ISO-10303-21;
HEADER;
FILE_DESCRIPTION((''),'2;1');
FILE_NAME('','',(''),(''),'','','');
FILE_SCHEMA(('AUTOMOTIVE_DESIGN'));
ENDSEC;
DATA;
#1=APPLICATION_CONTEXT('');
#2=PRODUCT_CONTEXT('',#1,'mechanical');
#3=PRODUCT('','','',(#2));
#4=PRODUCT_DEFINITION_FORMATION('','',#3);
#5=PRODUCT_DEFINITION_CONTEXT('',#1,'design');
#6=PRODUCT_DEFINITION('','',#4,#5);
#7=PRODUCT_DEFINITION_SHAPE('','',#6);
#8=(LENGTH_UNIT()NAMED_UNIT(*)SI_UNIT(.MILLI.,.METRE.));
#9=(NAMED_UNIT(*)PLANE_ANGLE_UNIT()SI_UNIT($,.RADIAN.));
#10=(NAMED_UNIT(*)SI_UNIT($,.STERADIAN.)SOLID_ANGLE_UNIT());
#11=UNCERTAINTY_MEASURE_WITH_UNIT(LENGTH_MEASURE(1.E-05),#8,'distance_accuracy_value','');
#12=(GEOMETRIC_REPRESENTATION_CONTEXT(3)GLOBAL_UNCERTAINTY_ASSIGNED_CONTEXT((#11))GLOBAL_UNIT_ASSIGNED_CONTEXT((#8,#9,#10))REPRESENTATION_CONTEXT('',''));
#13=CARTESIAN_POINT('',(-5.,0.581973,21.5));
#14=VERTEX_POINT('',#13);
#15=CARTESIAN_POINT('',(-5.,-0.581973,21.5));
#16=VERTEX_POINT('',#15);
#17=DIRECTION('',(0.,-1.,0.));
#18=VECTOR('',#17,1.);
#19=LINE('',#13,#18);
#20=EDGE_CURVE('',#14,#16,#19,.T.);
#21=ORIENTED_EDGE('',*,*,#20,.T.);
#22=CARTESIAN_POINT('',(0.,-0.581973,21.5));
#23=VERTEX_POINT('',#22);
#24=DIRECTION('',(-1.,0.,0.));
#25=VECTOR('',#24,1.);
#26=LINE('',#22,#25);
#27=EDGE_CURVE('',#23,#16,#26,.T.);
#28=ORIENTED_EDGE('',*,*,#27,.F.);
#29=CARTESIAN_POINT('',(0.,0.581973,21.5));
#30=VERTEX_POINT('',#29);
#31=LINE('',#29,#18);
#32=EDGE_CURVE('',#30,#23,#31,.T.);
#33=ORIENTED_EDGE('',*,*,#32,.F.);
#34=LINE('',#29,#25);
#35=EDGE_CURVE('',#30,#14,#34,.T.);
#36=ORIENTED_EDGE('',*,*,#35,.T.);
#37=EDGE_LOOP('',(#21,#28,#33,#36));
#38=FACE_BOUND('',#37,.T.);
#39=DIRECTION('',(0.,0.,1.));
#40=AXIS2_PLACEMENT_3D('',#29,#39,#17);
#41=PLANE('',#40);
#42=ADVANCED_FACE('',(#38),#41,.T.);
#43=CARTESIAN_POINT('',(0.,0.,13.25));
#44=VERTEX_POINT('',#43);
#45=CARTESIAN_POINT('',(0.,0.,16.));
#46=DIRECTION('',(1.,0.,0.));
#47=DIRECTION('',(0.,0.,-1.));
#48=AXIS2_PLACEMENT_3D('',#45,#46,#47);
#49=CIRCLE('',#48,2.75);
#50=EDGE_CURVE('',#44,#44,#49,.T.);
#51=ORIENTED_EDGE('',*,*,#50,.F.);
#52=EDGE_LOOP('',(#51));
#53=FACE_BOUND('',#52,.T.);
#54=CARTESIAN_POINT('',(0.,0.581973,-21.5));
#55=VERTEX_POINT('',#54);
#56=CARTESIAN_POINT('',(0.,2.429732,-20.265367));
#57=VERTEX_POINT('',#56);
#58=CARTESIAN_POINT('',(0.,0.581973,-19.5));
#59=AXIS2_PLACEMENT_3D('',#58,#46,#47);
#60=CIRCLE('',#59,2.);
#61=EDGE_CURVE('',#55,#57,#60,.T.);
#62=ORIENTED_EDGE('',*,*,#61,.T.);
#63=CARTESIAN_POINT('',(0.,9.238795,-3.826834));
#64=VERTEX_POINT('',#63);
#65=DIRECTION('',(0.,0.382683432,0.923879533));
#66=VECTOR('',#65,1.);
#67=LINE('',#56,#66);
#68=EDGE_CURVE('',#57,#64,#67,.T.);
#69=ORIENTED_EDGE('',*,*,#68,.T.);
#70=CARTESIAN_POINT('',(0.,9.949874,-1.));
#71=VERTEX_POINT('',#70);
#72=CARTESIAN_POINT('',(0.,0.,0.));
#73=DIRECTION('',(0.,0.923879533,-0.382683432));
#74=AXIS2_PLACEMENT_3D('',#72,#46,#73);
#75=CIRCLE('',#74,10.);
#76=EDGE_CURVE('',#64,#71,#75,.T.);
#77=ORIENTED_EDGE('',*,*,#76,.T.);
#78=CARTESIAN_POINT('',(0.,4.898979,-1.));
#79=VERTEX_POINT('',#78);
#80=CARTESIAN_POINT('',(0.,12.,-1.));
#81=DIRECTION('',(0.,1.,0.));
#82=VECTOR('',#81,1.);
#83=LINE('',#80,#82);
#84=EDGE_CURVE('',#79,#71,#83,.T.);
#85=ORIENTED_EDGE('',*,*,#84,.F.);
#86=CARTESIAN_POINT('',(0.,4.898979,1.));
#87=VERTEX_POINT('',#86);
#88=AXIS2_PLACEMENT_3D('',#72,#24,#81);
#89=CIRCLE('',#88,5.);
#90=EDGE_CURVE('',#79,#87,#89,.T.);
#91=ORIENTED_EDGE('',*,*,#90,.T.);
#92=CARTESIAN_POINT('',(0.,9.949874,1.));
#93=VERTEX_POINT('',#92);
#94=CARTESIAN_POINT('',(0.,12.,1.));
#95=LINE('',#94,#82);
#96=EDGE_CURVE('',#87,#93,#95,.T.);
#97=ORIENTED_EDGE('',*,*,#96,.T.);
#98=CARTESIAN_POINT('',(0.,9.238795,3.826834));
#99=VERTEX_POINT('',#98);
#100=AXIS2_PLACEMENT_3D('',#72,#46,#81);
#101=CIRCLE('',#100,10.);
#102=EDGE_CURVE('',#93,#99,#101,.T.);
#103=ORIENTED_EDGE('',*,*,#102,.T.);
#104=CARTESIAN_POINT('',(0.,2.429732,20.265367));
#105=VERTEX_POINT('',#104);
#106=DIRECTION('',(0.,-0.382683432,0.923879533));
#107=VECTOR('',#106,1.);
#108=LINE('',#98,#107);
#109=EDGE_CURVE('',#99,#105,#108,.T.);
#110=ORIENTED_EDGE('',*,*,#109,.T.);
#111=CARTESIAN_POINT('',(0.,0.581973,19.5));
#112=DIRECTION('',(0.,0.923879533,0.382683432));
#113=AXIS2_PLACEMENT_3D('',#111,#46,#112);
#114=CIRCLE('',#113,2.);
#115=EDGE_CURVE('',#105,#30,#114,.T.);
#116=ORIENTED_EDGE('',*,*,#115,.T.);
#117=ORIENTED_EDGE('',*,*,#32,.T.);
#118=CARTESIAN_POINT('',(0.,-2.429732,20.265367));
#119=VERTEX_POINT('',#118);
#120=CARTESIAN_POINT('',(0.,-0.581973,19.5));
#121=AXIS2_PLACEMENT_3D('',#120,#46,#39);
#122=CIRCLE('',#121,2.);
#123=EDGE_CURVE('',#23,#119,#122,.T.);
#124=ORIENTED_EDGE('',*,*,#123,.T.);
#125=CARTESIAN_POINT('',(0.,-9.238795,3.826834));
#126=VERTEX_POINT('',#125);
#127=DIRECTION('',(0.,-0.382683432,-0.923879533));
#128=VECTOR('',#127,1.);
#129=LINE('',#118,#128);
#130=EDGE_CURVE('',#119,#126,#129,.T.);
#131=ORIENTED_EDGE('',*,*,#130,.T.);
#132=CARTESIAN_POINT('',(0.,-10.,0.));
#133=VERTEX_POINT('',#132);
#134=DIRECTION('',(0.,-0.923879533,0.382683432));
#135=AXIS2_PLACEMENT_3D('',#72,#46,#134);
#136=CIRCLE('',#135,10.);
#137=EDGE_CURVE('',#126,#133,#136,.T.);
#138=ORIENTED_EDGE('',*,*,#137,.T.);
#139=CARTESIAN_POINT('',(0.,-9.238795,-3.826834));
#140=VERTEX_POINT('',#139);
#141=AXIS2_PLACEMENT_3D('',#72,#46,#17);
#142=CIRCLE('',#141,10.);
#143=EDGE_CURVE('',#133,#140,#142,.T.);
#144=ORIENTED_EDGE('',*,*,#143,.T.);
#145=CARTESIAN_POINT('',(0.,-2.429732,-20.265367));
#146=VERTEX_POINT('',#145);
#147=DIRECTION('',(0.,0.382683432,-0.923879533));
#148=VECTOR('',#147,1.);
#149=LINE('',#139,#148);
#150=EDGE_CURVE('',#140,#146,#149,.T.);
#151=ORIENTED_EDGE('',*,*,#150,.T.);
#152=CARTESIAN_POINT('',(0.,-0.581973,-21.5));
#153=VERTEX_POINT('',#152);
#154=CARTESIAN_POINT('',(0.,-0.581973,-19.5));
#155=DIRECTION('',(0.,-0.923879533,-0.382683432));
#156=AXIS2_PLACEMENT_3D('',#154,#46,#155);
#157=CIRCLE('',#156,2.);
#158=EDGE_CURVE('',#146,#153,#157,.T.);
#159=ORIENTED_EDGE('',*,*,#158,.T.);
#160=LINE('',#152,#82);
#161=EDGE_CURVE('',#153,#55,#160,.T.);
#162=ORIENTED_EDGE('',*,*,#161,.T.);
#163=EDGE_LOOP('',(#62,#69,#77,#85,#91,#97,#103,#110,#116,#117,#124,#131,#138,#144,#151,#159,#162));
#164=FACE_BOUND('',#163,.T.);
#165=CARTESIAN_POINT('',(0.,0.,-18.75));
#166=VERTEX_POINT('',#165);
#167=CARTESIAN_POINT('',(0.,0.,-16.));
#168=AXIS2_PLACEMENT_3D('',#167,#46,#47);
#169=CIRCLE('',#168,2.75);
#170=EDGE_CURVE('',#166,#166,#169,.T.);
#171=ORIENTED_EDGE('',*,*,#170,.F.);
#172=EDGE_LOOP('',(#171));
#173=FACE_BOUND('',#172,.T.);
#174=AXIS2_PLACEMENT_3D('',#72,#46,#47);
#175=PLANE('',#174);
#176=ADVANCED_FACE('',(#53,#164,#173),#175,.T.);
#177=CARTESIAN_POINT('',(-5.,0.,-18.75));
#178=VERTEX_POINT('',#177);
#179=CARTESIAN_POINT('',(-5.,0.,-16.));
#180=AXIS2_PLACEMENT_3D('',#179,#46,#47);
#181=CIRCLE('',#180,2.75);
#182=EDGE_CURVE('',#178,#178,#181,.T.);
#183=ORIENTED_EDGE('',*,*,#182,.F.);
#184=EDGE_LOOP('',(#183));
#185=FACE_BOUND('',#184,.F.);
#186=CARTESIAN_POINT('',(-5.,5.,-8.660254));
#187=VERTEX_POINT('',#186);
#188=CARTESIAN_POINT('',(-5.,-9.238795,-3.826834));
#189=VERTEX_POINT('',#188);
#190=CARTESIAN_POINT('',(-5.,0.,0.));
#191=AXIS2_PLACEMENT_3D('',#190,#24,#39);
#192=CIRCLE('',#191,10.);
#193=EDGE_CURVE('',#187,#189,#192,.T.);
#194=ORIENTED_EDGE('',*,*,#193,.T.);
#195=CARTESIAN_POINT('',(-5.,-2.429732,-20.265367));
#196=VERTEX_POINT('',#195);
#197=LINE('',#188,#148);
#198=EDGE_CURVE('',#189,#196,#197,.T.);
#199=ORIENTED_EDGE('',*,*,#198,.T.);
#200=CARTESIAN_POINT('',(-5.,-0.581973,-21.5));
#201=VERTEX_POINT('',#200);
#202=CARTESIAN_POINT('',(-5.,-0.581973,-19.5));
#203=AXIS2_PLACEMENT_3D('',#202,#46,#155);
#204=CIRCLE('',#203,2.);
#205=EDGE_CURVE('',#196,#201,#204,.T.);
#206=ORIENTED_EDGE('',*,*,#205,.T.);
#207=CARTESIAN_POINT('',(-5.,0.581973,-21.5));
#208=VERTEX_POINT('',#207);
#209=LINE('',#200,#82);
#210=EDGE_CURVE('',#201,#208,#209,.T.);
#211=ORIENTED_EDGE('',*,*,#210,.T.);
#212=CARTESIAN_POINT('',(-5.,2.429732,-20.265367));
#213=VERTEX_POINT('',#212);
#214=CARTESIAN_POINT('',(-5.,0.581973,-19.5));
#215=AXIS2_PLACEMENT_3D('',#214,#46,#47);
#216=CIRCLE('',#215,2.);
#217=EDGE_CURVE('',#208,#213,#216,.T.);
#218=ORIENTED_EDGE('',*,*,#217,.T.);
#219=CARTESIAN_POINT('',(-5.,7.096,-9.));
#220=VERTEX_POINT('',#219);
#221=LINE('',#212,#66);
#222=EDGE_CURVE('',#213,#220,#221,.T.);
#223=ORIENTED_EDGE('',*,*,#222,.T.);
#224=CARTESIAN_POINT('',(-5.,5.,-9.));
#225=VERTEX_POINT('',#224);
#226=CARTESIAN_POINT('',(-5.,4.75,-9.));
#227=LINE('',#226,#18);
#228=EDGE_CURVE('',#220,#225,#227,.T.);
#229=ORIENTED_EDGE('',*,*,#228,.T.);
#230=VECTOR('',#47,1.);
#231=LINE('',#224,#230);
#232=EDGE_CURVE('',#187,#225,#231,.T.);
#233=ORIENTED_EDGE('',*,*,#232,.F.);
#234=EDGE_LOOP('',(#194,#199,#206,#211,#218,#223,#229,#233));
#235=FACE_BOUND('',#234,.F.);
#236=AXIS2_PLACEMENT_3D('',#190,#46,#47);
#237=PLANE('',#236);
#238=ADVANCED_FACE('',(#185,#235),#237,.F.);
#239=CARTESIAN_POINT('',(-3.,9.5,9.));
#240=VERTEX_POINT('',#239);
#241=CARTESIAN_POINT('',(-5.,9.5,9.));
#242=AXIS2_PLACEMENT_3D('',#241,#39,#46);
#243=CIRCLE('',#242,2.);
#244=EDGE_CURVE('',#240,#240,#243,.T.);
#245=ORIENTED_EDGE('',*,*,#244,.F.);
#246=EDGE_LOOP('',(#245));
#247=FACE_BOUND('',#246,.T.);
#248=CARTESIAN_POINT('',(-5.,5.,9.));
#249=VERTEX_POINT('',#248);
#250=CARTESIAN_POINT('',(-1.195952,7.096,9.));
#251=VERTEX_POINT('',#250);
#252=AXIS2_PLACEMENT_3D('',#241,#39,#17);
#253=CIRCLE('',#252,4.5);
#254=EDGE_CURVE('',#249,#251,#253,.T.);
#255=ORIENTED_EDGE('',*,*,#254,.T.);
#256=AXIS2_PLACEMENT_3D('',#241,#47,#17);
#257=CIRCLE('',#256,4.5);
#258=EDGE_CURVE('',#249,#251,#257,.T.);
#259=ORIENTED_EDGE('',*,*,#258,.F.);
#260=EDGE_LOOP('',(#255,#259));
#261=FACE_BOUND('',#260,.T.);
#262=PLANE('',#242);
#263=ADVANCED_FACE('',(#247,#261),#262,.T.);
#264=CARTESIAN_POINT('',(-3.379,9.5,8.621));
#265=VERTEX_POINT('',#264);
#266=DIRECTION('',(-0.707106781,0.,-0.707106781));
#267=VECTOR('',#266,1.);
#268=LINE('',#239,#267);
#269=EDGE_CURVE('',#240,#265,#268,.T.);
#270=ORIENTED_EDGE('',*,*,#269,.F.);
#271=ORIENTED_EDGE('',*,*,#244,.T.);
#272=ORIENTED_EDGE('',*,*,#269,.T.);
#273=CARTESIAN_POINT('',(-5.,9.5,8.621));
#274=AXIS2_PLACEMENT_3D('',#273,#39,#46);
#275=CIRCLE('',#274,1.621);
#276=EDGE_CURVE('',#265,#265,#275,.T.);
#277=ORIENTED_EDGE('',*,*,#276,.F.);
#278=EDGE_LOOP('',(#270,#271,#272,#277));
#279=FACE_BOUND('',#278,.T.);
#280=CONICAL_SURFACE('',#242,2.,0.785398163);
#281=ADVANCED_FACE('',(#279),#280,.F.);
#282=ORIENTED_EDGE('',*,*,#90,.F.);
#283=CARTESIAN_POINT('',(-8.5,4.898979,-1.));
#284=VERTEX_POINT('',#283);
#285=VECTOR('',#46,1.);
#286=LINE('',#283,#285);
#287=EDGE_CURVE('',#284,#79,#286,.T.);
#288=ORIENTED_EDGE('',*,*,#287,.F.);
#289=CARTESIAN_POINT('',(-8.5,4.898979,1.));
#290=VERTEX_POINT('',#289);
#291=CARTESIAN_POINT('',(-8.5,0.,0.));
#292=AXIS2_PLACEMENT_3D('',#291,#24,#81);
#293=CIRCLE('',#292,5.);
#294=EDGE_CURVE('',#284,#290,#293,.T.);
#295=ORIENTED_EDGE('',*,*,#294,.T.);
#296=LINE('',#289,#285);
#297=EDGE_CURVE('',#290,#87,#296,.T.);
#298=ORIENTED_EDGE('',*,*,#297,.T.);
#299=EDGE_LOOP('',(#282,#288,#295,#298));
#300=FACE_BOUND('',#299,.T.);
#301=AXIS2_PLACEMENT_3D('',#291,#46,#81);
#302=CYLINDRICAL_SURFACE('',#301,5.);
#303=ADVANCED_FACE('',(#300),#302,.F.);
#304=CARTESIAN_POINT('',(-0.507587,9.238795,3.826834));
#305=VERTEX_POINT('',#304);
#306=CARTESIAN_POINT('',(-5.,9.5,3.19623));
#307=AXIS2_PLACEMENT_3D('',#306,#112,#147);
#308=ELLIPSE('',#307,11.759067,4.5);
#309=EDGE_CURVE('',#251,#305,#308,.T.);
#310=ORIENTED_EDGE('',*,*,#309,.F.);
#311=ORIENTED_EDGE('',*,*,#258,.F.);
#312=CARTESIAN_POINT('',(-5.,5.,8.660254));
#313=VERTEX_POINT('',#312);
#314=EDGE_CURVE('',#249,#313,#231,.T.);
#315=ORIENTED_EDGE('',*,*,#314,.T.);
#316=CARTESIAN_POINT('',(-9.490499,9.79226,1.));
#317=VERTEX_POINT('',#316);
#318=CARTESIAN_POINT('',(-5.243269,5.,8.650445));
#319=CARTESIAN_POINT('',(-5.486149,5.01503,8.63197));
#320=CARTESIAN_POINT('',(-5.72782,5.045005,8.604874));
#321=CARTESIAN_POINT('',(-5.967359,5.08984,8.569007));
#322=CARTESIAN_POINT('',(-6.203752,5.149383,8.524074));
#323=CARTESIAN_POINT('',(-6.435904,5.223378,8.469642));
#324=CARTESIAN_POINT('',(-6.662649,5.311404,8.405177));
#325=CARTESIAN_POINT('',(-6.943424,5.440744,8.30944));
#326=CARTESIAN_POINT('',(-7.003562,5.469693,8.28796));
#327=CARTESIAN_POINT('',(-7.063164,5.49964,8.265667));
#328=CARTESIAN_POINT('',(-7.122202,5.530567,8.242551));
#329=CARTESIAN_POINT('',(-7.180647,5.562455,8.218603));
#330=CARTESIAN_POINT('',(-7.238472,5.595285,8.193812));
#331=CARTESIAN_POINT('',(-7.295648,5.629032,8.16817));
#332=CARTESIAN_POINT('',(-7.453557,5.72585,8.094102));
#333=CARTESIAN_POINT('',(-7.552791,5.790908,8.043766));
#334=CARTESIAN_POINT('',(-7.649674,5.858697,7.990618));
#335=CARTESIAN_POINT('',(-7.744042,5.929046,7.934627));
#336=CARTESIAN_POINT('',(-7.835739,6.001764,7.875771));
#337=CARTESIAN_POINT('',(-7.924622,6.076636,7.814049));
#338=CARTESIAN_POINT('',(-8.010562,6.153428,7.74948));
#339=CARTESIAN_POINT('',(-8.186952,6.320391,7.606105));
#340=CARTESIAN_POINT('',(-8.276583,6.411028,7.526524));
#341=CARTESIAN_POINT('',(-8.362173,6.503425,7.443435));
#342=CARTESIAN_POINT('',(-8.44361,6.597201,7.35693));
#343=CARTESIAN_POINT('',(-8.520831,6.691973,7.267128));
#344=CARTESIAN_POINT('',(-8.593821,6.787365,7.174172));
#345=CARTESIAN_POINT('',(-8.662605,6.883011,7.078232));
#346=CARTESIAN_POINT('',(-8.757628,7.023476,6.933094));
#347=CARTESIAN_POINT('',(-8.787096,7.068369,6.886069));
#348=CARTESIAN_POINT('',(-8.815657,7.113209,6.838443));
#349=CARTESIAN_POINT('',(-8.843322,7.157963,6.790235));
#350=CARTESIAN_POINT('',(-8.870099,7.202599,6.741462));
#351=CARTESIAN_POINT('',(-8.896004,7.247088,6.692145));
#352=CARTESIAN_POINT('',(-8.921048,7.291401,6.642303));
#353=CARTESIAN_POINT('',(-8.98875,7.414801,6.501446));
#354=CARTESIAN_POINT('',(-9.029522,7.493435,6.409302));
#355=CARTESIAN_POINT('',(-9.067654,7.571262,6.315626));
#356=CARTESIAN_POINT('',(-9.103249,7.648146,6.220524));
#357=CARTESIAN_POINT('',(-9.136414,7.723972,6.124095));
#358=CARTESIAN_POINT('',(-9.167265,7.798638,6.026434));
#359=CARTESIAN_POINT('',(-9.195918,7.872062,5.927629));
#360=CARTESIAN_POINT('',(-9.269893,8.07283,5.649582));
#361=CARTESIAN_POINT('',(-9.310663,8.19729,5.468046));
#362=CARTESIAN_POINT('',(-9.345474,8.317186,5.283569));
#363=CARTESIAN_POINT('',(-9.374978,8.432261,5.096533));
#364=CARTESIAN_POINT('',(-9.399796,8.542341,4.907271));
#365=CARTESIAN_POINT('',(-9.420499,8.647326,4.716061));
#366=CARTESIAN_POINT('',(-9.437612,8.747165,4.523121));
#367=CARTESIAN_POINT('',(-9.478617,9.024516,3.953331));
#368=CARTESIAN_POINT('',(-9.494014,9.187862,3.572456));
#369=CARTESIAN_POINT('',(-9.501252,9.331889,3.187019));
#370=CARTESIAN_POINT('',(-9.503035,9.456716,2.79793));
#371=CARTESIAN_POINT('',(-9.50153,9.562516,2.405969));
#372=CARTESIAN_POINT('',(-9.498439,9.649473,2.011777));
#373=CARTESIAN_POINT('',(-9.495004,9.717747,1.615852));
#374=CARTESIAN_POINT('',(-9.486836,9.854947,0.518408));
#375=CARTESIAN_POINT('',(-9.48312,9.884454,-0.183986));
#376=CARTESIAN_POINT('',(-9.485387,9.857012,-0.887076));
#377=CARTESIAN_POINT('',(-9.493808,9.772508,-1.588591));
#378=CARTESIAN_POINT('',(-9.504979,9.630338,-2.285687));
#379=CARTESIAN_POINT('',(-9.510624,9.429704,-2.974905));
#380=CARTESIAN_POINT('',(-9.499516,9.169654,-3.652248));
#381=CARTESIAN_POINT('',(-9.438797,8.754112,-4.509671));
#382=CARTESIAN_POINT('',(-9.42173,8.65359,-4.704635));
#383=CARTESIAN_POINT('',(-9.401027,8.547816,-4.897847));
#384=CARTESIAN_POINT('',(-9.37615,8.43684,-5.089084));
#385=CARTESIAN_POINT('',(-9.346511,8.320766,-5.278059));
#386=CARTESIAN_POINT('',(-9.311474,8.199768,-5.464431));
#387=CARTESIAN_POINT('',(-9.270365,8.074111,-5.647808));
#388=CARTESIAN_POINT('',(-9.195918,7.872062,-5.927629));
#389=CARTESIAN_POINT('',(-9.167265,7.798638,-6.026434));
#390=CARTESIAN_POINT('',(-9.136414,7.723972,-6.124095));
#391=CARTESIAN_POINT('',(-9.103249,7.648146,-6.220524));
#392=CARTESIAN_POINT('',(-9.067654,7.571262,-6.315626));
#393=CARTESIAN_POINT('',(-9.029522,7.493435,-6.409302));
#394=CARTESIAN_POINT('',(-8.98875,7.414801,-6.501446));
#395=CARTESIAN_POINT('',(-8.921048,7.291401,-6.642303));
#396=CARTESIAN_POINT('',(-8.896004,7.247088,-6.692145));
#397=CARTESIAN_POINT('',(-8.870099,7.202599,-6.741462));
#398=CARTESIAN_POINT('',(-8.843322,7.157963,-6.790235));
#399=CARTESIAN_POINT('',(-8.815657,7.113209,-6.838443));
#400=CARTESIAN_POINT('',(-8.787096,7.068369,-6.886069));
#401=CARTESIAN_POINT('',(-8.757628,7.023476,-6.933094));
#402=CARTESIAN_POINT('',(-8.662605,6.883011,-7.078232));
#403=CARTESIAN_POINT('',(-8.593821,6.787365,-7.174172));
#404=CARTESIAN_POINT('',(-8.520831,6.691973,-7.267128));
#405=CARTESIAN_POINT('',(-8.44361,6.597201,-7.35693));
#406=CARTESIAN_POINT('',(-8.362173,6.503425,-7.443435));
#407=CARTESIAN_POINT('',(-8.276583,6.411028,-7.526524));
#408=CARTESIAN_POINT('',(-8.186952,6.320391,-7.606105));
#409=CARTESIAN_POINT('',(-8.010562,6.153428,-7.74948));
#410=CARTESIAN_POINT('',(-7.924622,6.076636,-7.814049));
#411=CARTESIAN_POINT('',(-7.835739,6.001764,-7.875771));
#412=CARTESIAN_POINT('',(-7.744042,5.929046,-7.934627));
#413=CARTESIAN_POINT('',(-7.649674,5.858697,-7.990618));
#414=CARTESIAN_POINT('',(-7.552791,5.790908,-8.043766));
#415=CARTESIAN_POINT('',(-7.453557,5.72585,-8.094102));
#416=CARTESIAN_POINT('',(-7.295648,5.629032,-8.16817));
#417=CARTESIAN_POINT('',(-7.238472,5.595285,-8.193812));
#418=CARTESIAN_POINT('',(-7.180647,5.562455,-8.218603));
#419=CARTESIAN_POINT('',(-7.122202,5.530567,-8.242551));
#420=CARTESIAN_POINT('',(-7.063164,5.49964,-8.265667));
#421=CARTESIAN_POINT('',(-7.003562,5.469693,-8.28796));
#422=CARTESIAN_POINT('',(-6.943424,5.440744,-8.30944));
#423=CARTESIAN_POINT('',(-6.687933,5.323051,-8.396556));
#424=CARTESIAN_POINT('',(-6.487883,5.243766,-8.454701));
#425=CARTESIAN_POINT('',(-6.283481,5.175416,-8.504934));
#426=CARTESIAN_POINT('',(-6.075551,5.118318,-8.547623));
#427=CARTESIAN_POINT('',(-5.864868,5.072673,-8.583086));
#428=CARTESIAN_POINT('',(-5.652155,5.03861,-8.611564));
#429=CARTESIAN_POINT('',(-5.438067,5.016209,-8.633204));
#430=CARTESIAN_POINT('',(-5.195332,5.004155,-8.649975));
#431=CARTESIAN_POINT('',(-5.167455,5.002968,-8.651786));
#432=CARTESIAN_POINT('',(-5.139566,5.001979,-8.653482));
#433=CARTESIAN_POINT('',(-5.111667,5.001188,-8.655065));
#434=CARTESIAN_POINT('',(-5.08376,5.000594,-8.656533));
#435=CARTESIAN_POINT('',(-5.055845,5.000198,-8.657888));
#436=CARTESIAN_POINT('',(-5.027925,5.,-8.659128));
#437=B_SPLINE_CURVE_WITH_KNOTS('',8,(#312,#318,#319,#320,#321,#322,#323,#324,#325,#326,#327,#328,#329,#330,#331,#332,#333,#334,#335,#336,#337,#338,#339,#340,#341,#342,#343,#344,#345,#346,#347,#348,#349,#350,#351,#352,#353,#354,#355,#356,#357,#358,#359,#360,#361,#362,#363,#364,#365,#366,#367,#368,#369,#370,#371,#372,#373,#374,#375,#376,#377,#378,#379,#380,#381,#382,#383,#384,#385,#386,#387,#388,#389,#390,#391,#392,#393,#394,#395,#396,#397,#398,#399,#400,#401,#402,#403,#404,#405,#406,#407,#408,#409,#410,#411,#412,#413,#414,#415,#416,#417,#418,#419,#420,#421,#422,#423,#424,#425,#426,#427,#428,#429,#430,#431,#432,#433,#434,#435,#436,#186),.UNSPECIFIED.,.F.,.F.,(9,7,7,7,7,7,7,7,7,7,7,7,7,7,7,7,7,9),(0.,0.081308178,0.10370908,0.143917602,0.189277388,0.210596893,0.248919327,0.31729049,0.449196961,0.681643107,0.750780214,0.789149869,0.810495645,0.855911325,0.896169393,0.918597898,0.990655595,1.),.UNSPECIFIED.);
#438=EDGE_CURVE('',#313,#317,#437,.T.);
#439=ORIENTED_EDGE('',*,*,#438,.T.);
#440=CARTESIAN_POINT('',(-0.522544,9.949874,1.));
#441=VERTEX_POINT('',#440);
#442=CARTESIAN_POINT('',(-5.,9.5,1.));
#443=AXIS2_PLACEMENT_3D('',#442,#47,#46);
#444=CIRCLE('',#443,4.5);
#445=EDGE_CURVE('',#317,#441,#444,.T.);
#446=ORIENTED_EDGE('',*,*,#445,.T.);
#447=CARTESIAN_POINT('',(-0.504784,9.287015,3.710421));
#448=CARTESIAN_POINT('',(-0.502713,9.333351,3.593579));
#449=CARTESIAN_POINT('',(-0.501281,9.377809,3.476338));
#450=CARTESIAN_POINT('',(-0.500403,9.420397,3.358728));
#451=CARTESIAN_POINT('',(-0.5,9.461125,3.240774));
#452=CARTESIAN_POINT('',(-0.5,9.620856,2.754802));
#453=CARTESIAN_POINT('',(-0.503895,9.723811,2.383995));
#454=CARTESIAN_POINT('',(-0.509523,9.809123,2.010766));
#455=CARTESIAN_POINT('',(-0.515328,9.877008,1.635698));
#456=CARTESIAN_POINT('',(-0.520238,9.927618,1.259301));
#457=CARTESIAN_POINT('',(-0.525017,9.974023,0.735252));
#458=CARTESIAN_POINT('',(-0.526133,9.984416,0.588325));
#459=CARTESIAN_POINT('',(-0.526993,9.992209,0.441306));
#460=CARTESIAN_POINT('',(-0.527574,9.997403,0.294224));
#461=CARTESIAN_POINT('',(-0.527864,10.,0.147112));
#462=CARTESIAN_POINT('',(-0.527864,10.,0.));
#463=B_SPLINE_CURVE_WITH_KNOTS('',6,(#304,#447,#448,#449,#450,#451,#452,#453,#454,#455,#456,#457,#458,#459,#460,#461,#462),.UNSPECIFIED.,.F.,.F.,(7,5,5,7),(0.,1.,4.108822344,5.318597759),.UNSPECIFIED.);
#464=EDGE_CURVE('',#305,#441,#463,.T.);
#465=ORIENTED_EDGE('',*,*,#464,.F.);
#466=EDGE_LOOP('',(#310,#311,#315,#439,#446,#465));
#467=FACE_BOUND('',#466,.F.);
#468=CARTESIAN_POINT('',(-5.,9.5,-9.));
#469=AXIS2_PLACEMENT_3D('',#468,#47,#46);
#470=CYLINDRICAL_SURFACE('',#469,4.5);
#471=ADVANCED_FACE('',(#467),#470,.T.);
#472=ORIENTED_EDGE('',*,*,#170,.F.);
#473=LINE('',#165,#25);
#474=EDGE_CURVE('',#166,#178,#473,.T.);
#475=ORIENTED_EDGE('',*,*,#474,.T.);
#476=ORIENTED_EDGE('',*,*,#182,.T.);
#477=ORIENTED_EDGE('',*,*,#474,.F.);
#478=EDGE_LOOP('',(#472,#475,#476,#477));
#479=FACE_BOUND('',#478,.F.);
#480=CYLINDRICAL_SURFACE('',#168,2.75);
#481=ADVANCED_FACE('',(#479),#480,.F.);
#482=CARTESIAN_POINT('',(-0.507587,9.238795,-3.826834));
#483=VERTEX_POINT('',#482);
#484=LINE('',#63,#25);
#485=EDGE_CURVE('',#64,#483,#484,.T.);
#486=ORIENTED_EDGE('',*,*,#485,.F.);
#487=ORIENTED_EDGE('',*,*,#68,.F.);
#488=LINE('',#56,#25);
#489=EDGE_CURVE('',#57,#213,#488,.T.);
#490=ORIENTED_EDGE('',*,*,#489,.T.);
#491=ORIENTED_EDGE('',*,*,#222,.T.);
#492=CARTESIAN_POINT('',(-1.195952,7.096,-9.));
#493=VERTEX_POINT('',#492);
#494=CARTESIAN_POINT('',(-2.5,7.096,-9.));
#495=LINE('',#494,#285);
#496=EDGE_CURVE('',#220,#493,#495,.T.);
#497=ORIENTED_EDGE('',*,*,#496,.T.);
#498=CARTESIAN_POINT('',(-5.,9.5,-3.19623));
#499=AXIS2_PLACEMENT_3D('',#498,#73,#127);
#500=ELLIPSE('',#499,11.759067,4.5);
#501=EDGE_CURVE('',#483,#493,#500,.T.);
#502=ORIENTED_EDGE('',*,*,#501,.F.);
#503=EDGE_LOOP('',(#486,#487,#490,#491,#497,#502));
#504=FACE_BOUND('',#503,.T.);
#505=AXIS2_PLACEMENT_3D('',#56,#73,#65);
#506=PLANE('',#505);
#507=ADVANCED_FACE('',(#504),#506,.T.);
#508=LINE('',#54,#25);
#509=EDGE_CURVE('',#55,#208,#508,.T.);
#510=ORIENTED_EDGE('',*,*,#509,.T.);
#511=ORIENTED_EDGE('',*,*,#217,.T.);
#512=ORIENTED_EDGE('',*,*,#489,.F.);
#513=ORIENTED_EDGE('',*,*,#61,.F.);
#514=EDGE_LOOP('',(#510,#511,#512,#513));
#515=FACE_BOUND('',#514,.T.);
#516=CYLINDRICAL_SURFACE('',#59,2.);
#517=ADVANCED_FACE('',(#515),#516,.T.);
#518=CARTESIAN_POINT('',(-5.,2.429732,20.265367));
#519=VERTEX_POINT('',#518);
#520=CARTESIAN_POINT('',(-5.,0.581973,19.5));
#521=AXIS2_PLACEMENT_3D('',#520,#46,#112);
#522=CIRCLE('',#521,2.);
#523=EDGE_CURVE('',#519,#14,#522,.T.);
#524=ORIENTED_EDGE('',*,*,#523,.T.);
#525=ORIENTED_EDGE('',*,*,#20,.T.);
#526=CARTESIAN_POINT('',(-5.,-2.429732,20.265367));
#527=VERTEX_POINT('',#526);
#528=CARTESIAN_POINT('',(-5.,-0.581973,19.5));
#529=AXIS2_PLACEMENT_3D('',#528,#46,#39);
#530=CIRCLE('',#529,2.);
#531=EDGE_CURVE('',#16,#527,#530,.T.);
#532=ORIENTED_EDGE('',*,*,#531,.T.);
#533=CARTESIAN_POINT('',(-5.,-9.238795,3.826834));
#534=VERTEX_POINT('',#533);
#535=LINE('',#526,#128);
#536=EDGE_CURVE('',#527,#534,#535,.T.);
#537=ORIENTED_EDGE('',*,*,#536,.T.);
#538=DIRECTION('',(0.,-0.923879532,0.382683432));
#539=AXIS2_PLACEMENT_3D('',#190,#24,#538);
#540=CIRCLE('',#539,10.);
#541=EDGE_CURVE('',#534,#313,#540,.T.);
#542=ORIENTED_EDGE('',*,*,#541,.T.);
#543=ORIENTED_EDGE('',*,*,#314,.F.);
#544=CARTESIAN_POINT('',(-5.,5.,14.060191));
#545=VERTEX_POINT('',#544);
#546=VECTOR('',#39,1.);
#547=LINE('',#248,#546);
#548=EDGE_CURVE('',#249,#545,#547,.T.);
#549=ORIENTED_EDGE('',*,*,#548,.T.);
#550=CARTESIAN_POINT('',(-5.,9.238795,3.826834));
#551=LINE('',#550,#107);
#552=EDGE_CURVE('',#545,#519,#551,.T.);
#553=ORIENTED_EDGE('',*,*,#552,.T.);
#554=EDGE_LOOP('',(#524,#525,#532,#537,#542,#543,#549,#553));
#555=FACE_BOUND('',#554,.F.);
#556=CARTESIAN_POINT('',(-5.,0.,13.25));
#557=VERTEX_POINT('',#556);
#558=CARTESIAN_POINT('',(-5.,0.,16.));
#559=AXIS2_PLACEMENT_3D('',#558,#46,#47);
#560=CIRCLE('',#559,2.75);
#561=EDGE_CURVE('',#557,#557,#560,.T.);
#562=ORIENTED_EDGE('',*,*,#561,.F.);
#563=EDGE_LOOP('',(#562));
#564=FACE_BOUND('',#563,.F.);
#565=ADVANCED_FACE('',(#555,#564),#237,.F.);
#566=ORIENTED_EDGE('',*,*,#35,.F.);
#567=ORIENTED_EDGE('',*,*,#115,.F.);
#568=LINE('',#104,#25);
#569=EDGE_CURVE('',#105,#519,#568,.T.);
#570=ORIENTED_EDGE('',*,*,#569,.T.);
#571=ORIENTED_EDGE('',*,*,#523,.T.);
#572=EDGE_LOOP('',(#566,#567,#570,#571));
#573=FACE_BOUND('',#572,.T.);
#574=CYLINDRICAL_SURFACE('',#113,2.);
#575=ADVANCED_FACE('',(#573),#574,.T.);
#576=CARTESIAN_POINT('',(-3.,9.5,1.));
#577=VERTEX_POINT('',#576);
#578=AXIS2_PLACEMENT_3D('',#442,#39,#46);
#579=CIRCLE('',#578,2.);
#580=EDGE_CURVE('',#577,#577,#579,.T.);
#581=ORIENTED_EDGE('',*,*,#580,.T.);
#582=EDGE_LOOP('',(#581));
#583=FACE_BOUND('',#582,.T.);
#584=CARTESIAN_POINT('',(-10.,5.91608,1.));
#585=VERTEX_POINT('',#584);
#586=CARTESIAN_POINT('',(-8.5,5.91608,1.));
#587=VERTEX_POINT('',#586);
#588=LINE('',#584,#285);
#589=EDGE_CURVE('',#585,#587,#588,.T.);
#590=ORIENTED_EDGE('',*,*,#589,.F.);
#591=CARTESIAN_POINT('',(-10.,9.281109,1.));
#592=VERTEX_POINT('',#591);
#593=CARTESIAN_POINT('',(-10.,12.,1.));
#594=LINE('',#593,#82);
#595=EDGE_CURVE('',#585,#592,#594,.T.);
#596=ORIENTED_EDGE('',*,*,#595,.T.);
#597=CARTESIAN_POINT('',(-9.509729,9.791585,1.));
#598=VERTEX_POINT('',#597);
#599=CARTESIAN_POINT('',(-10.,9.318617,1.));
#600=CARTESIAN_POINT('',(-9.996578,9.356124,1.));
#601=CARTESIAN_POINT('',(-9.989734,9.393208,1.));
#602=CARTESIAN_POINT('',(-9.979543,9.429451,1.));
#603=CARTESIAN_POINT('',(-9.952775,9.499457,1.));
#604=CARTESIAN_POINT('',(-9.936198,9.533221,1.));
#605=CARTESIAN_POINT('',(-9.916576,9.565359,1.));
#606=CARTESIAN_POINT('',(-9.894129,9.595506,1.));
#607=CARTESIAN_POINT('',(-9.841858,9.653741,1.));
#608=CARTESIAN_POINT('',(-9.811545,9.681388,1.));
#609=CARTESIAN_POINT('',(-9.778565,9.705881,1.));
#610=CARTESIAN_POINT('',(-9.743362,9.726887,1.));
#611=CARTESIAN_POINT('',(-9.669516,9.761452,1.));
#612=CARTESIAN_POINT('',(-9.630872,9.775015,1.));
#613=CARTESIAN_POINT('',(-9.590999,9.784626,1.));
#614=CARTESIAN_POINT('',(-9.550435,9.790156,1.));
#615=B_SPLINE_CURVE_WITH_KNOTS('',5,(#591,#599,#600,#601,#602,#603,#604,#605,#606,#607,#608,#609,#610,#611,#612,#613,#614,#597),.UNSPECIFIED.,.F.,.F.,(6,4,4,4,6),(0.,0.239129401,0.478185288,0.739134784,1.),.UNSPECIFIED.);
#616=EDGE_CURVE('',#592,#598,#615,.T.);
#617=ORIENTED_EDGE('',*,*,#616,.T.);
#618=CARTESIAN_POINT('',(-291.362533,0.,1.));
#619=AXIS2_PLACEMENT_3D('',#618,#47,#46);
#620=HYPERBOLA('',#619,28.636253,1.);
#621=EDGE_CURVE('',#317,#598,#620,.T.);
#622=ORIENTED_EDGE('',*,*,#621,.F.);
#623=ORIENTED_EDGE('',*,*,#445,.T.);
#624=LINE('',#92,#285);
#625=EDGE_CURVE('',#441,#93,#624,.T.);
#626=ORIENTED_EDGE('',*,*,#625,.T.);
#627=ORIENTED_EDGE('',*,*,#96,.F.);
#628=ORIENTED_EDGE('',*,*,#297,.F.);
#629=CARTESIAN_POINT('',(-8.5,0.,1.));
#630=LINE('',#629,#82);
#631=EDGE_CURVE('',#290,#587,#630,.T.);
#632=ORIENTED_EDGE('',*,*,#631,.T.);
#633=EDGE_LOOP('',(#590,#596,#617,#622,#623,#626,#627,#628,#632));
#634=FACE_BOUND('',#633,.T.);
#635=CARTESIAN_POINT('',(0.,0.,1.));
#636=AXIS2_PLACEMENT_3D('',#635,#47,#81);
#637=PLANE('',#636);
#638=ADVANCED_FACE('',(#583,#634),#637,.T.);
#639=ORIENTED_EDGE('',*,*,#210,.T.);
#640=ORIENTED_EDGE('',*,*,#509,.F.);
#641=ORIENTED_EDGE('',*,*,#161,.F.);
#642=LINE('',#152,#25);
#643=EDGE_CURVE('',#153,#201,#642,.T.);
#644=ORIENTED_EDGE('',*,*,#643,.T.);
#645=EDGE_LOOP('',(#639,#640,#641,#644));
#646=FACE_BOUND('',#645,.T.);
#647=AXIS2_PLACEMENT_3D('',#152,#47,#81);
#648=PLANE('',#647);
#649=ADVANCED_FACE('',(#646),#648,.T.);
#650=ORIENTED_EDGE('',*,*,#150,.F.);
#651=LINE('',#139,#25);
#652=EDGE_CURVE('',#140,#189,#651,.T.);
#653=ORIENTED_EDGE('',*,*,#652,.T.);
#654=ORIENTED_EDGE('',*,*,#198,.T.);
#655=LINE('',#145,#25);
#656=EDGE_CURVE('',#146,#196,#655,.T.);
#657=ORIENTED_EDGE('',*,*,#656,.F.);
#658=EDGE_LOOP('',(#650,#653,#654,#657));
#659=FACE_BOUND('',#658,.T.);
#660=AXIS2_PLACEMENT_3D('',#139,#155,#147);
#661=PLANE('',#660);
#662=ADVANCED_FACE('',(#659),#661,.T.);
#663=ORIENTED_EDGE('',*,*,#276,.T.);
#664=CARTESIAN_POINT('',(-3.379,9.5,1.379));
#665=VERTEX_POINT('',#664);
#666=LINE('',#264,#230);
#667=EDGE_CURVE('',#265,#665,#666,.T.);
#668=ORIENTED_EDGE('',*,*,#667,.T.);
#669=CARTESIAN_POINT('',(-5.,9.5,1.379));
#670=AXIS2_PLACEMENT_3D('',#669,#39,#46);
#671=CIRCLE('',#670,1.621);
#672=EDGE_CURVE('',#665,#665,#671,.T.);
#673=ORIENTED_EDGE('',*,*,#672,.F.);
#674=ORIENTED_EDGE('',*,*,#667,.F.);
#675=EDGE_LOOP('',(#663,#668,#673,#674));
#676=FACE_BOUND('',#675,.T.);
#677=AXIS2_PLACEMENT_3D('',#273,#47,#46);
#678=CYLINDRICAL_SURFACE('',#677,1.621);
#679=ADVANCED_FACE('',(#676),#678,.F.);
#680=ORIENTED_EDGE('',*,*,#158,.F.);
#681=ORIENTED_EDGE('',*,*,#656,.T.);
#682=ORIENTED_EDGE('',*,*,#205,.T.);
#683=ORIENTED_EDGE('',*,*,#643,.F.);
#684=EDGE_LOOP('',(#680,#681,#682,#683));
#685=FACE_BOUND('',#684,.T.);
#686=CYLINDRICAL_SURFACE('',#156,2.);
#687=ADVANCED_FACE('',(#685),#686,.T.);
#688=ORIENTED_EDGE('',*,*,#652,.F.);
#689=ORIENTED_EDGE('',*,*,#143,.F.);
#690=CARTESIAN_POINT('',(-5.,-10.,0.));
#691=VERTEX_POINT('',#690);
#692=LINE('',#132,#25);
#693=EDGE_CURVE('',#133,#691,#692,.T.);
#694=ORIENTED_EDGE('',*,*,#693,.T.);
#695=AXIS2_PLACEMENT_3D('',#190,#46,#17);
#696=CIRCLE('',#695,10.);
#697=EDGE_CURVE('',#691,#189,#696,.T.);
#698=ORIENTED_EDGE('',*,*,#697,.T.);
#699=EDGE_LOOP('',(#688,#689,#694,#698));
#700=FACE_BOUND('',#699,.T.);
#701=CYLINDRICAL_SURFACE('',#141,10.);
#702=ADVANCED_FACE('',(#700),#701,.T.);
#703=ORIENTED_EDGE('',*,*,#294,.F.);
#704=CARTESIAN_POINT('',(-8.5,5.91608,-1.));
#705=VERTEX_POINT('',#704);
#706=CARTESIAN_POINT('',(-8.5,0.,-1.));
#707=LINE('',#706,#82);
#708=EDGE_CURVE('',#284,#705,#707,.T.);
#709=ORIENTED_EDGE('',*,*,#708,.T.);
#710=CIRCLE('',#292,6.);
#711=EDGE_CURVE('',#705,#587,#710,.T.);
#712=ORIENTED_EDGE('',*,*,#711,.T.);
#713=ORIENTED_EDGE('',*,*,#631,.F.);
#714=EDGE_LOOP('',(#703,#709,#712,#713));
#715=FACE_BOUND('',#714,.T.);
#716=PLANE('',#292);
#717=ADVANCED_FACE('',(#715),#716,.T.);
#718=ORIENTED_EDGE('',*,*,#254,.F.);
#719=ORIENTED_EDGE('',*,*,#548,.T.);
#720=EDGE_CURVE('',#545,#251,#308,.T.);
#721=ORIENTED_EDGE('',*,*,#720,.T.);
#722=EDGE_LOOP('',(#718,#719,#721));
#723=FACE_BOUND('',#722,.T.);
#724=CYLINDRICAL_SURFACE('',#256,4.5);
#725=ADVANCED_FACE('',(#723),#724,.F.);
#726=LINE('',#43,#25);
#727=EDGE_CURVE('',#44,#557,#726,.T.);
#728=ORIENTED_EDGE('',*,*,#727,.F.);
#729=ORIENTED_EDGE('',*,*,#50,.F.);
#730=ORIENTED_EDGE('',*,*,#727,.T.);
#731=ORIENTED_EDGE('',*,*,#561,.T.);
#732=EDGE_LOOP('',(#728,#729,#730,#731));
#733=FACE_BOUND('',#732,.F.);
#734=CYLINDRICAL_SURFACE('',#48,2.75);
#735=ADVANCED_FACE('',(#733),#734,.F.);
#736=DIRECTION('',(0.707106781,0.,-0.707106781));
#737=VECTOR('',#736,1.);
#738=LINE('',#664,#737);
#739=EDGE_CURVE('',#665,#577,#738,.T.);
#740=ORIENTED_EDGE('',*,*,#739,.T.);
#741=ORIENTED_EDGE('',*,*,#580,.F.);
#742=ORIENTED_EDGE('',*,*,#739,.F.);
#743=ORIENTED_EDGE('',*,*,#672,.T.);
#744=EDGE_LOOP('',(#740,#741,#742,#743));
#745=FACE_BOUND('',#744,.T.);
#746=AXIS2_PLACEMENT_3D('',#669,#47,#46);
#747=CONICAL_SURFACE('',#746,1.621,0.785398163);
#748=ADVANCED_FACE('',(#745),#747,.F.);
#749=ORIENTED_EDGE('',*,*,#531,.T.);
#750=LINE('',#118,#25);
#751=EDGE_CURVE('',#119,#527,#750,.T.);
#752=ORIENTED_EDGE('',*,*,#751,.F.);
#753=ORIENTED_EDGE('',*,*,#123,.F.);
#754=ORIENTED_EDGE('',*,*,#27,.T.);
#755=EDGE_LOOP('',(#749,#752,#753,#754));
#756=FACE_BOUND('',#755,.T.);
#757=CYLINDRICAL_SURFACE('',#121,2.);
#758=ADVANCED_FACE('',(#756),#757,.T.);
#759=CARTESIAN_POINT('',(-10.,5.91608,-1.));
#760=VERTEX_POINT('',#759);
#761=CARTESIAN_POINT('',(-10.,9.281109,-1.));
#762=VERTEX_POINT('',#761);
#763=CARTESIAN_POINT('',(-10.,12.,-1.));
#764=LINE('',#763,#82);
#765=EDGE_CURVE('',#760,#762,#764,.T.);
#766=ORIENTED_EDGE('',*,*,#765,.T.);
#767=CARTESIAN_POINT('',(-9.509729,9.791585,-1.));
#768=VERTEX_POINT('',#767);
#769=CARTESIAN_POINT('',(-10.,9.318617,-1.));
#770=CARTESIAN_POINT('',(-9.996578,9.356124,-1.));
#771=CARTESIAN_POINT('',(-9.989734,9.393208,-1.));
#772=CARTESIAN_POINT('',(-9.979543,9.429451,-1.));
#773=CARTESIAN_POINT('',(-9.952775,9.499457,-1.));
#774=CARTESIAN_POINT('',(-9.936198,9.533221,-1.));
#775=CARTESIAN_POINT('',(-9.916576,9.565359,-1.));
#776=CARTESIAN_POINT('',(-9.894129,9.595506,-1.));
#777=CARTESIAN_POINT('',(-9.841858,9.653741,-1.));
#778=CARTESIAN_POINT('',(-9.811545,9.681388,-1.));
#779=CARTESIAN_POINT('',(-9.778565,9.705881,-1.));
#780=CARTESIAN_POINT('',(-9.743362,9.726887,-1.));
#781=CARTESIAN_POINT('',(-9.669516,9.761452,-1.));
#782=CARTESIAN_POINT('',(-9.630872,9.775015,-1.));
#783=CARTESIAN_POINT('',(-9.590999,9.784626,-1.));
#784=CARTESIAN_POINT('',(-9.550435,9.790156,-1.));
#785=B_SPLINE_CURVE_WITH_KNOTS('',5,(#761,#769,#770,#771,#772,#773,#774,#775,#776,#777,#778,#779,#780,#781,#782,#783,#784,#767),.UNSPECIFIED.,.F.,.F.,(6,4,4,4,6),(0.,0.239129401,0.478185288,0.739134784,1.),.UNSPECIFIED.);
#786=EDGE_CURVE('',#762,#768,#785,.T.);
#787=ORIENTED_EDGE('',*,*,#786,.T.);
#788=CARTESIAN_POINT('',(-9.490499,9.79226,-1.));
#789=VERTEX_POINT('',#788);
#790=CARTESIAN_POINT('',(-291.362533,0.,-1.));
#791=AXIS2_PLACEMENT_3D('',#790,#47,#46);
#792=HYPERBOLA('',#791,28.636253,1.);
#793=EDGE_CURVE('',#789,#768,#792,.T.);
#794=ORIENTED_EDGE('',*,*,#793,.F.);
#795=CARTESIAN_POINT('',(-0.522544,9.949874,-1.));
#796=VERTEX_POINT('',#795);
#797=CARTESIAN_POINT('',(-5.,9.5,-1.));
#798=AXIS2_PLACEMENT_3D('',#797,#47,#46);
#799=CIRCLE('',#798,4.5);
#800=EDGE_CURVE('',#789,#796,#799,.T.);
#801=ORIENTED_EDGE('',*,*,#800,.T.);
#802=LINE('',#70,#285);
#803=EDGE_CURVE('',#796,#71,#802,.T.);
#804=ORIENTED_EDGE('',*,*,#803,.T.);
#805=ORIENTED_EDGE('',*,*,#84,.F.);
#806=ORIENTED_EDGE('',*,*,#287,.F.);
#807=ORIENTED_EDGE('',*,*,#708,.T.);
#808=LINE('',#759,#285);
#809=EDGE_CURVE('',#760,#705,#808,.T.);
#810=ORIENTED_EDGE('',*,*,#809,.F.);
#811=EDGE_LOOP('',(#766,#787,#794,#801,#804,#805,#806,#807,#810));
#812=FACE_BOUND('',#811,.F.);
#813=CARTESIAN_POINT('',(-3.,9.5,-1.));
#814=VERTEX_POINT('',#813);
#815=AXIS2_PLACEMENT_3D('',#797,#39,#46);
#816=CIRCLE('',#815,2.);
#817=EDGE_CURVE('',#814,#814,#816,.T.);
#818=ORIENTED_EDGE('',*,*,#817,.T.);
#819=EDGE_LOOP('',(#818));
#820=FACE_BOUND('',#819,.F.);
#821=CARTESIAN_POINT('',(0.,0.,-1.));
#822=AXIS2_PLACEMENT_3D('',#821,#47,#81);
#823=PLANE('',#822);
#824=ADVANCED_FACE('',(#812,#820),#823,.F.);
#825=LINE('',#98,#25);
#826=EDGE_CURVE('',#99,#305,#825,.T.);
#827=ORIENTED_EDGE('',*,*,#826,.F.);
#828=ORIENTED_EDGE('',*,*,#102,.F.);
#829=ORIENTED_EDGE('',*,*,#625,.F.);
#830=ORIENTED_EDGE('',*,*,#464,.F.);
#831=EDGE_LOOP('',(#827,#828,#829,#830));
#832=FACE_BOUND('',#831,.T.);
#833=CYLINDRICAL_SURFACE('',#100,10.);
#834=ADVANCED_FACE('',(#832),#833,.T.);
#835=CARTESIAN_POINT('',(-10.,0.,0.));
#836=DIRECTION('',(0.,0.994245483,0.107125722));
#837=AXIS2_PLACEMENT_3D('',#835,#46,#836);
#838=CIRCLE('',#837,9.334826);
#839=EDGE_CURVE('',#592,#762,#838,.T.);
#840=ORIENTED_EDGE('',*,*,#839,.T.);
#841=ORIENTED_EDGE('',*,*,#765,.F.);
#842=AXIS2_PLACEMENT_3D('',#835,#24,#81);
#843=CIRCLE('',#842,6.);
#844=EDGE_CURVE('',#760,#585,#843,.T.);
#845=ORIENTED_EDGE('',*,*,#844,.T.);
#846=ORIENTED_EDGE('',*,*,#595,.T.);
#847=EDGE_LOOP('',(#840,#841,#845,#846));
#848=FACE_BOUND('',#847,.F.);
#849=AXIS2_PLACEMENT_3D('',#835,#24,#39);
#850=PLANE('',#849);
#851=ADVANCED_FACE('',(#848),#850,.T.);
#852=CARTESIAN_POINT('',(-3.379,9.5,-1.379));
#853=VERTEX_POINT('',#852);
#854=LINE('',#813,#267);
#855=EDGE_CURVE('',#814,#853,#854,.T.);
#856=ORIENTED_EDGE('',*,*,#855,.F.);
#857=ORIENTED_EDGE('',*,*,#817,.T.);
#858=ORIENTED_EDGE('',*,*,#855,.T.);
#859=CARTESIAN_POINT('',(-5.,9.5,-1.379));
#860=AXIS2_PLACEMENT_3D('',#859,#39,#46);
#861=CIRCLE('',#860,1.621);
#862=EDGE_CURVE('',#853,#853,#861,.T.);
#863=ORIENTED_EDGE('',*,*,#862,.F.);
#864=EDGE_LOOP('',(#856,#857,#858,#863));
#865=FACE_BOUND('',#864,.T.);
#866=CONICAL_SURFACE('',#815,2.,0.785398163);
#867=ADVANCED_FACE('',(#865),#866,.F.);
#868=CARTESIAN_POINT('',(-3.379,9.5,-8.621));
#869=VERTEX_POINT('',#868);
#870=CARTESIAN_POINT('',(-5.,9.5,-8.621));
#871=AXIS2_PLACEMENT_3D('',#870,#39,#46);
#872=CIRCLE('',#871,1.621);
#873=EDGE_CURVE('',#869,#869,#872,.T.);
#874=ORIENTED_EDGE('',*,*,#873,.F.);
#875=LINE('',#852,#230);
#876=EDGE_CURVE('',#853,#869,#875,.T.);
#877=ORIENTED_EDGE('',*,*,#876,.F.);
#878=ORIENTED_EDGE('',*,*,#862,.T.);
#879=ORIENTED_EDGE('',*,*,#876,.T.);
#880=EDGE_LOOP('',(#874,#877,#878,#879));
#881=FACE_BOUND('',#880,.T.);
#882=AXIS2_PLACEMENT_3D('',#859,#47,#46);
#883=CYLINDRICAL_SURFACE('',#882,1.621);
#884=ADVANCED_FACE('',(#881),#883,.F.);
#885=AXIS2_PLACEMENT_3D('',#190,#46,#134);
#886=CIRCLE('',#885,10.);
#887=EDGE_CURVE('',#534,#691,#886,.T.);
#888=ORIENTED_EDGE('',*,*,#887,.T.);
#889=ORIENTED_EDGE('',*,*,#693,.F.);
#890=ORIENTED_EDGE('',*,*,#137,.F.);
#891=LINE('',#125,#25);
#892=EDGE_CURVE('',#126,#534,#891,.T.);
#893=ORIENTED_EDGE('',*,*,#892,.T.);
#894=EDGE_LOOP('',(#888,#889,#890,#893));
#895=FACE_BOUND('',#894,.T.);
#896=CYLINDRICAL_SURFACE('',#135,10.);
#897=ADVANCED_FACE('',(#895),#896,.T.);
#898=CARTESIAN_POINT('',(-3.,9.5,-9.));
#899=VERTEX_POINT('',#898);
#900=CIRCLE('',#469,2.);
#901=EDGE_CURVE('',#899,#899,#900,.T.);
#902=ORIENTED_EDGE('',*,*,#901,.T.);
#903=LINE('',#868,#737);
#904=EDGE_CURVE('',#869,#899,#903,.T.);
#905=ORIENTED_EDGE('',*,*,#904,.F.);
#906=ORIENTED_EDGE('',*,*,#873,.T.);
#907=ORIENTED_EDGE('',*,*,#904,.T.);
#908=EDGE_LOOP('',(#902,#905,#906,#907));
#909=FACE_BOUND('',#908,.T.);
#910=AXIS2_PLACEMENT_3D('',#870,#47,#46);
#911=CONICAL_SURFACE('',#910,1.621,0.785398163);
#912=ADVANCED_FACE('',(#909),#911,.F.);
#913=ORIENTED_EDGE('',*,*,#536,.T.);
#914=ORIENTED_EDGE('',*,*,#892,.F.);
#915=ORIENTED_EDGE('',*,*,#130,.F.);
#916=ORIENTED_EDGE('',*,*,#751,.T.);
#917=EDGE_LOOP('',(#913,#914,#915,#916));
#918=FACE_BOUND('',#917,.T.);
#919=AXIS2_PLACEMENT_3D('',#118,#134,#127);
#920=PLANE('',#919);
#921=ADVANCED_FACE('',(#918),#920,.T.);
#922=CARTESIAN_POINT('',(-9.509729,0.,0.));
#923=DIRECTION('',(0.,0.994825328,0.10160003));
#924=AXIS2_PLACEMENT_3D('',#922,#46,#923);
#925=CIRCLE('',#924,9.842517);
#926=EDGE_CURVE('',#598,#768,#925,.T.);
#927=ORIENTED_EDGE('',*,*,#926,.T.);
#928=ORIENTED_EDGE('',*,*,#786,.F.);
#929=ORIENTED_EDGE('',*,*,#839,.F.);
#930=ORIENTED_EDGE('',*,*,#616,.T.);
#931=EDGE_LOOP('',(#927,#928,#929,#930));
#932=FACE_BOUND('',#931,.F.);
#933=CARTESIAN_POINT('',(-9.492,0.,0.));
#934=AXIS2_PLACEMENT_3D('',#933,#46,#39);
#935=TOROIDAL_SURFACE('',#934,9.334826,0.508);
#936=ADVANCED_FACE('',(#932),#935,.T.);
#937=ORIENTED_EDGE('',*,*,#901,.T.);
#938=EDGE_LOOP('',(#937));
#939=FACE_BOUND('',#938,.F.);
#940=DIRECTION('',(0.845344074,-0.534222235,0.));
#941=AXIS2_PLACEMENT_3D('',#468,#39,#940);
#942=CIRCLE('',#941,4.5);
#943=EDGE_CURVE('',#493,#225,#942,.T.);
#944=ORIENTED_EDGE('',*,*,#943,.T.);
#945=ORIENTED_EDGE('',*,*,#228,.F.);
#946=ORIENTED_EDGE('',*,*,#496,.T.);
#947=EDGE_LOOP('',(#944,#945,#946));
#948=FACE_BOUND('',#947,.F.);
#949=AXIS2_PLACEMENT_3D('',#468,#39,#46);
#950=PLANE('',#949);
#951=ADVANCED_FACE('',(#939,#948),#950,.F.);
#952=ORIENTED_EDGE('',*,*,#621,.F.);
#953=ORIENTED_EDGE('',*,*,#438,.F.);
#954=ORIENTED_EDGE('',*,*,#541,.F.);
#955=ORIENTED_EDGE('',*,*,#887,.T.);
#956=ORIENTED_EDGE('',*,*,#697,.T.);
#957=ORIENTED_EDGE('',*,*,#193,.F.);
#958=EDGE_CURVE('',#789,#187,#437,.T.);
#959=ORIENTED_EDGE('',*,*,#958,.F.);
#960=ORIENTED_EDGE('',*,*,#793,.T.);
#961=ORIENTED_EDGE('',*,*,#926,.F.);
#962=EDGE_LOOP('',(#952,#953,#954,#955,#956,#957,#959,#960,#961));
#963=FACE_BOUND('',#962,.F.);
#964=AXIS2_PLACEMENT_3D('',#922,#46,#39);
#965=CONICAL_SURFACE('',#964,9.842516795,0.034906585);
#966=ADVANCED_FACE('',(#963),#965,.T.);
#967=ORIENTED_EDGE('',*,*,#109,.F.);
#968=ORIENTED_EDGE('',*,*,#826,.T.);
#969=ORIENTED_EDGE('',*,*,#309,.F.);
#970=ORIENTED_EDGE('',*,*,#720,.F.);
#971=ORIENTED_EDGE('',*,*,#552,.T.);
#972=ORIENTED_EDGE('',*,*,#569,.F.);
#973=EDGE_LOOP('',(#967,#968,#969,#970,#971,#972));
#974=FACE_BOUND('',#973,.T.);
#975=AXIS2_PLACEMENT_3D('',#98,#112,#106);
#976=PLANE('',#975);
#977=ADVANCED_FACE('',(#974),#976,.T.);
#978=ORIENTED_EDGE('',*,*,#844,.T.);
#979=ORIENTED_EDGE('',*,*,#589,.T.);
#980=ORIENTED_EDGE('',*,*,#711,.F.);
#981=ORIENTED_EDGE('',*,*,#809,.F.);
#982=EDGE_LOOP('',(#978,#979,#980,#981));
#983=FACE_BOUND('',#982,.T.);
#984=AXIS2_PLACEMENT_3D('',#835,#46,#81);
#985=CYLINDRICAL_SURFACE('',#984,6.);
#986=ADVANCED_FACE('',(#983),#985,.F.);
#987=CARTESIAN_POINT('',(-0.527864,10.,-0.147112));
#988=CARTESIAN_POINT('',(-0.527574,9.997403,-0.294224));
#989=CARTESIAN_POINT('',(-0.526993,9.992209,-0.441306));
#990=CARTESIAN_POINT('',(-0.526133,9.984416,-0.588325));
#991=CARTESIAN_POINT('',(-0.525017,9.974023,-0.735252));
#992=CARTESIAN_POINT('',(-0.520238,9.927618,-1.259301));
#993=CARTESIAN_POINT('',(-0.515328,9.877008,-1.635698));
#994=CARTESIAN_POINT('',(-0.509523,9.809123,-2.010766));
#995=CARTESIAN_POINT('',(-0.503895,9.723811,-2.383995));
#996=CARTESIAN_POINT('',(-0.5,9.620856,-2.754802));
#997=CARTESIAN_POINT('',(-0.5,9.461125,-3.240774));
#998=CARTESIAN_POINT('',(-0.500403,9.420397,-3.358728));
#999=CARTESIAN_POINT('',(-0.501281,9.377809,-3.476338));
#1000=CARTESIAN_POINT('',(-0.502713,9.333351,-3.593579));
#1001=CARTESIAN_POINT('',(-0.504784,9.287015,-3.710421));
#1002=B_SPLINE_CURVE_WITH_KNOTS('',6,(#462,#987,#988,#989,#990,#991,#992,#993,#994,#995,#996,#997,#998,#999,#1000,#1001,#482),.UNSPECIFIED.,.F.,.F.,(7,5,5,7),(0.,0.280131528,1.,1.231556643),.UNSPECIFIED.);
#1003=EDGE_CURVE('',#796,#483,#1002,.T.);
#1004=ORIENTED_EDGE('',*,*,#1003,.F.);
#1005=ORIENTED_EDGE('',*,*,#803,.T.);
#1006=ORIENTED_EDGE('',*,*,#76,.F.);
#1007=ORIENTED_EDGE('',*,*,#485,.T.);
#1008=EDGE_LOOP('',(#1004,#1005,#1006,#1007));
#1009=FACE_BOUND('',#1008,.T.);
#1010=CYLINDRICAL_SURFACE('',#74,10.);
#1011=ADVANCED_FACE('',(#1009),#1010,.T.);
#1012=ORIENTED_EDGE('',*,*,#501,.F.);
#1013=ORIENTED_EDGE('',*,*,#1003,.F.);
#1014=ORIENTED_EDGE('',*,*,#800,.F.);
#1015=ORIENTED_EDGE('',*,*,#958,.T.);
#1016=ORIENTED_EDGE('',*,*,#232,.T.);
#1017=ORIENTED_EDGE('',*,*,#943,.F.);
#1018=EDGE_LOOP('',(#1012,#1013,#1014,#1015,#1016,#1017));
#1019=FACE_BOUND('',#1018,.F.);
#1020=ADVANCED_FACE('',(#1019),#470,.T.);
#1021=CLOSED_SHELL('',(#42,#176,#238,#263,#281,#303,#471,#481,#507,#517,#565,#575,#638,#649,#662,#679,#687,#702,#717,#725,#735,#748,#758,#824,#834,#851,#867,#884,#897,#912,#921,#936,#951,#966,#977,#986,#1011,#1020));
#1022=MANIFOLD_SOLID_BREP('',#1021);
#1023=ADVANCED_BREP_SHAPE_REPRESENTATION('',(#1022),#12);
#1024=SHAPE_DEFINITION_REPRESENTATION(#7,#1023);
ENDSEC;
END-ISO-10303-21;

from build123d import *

# Parameters (mm, degrees)
EXTRUDE_1_DEPTH      = 5
EXTRUDE_2_DEPTH      = 9
EXTRUDE_2_DEPTH_BACK = 9
SKETCH_3_R           = 4.5
CUT_EXTRUDE_1_DEPTH  = 9
SKETCH_5_W           = 2
SKETCH_5_H           = 24
CUT_EXTRUDE_2_DEPTH  = 10
SKETCH_9_R           = 2.75
CUT_EXTRUDE_3_DEPTH  = 5
SKETCH_10_R          = 2.75
CUT_EXTRUDE_4_DEPTH  = 5


with BuildPart() as part:
    # 草圖1 → 填料-伸長1 (new body)
    with BuildSketch(Plane(origin=(0, 0, 0), x_dir=(0, 0, -1), z_dir=(1, 0, 0))):
        with BuildLine():
            Line((-21.5, 0.581973136), (-21.5, -0.581973136))
            ThreePointArc((-21.5, -0.581973136), (-21.162939225, -1.693113602), (-20.265366865, -2.429732201))
            Line((-20.265366865, -2.429732201), (-3.826834324, -9.238795325))
            ThreePointArc((-3.826834324, -9.238795325), (-1.95090322, -9.807852804), (0, -10))
            ThreePointArc((0, -10), (1.95090322, -9.807852804), (3.826834324, -9.238795325))
            Line((3.826834324, -9.238795325), (20.265366865, -2.429732201))
            ThreePointArc((20.265366865, -2.429732201), (21.162939225, -1.693113602), (21.5, -0.581973136))
            Line((21.5, -0.581973136), (21.5, 0.581973136))
            ThreePointArc((21.5, 0.581973136), (21.162939225, 1.693113602), (20.265366865, 2.429732201))
            Line((20.265366865, 2.429732201), (3.826834324, 9.238795325))
            ThreePointArc((3.826834324, 9.238795325), (1.95090322, 9.807852804), (0, 10))
            ThreePointArc((0, 10), (-1.95090322, 9.807852804), (-3.826834324, 9.238795325))
            Line((-3.826834324, 9.238795325), (-20.265366865, 2.429732201))
            ThreePointArc((-20.265366865, 2.429732201), (-21.162939225, 1.693113602), (-21.5, 0.581973136))
        make_face()
    extrude(amount=-EXTRUDE_1_DEPTH)

    # 草圖2 → 旋轉1 (revolve)
    with BuildSketch(Plane.XY, mode=Mode.PRIVATE) as revolve_1_sk:
        with BuildLine():
            Line((-10, 0), (-10, 9.334826255))
            ThreePointArc((-10, 9.334826255), (-9.857424619, 9.687712707), (-9.509728944, 9.842516795))
            Line((-9.509728944, 9.842516795), (-5, 10))
            Line((-5, 10), (-5, 0))
            Line((-5, 0), (-10, 0))
        make_face()
    revolve(revolve_1_sk.sketch.rotate(Axis((-5, 0, 0), (-1, 0, 0)), 270), axis=Axis((-5, 0, 0), (-1, 0, 0)))

    # 草圖3 → 填料-伸長2 (add, two sides: drawn at the far end of the back side and taken through both)
    with BuildSketch(Plane.XY.offset(-EXTRUDE_2_DEPTH_BACK)):
        with Locations((-5, 9.5)):
            Circle(SKETCH_3_R)
    extrude(amount=EXTRUDE_2_DEPTH + EXTRUDE_2_DEPTH_BACK)

    # 草圖4 → 除料-伸長1 (cut)
    with BuildSketch(Plane.XY.offset(9)):
        with BuildLine():
            Line((-10, 5), (-5, 5))
            ThreePointArc((-5, 5), (-1.818019485, 12.681980515), (-9.5, 9.5))
            Line((-9.5, 9.5), (-10, 9.5))
            Line((-10, 9.5), (-10, 5))
        make_face()
    extrude(amount=CUT_EXTRUDE_1_DEPTH, mode=Mode.SUBTRACT)

    # 草圖5 → 除料-伸長2 (cut)
    with BuildSketch(Plane(origin=(0, 0, 0), x_dir=(0, 0, -1), z_dir=(1, 0, 0))):
        with Locations((0, 12)):
            Rectangle(SKETCH_5_W, SKETCH_5_H)
    extrude(amount=-CUT_EXTRUDE_2_DEPTH, mode=Mode.SUBTRACT)

    # 草圖6 → 除料-旋轉1 (revolve, cut)
    with BuildSketch(Plane.XY):
        Polygon((-10, 0), (-10, 6), (-8.5, 6), (-8.5, 5), (0, 5), (0, 0), align=None)
    revolve(axis=Axis((0, 0, 0), (-1, 0, 0)), mode=Mode.SUBTRACT)

    # 草圖7 → 除料-旋轉2 (revolve, cut)
    with BuildSketch(Plane(origin=(-5, 0, 0), x_dir=(0, 0, -1), z_dir=(1, 0, 0)), mode=Mode.PRIVATE) as cut_revolve_2_sk:
        Polygon((1, 9.5), (1, 11.5), (1.379, 11.121), (8.621, 11.121), (9.1, 11.6), (13.5, 11.6), (13.5, 9.5), align=None)
    revolve(cut_revolve_2_sk.sketch.rotate(Axis((-5, 9.5, -13.5), (0, 0, 1)), 270), axis=Axis((-5, 9.5, -13.5), (0, 0, 1)), mode=Mode.SUBTRACT)

    # 草圖8 → 除料-旋轉3 (revolve, cut)
    with BuildSketch(Plane(origin=(-5, 0, 0), x_dir=(0, 0, -1), z_dir=(1, 0, 0)), mode=Mode.PRIVATE) as cut_revolve_3_sk:
        Polygon((-9, 9.5), (-9, 11.5), (-8.621, 11.121), (-1.379, 11.121), (-1, 11.5), (-1, 9.5), align=None)
    revolve(cut_revolve_3_sk.sketch.rotate(Axis((-5, 9.5, 1), (0, 0, 1)), 270), axis=Axis((-5, 9.5, 1), (0, 0, 1)), mode=Mode.SUBTRACT)

    # 草圖9 → 除料-伸長3 (cut)
    with BuildSketch(Plane(origin=(0, 0, 0), x_dir=(0, 0, -1), z_dir=(1, 0, 0))):
        with Locations((16, 0)):
            Circle(SKETCH_9_R)
    extrude(amount=-CUT_EXTRUDE_3_DEPTH, mode=Mode.SUBTRACT)

    # 草圖10 → 除料-伸長4 (cut)
    with BuildSketch(Plane(origin=(0, 0, 0), x_dir=(0, 0, -1), z_dir=(1, 0, 0))):
        with Locations((-16, 0)):
            Circle(SKETCH_10_R)
    extrude(amount=-CUT_EXTRUDE_4_DEPTH, mode=Mode.SUBTRACT)


solid = part.part
